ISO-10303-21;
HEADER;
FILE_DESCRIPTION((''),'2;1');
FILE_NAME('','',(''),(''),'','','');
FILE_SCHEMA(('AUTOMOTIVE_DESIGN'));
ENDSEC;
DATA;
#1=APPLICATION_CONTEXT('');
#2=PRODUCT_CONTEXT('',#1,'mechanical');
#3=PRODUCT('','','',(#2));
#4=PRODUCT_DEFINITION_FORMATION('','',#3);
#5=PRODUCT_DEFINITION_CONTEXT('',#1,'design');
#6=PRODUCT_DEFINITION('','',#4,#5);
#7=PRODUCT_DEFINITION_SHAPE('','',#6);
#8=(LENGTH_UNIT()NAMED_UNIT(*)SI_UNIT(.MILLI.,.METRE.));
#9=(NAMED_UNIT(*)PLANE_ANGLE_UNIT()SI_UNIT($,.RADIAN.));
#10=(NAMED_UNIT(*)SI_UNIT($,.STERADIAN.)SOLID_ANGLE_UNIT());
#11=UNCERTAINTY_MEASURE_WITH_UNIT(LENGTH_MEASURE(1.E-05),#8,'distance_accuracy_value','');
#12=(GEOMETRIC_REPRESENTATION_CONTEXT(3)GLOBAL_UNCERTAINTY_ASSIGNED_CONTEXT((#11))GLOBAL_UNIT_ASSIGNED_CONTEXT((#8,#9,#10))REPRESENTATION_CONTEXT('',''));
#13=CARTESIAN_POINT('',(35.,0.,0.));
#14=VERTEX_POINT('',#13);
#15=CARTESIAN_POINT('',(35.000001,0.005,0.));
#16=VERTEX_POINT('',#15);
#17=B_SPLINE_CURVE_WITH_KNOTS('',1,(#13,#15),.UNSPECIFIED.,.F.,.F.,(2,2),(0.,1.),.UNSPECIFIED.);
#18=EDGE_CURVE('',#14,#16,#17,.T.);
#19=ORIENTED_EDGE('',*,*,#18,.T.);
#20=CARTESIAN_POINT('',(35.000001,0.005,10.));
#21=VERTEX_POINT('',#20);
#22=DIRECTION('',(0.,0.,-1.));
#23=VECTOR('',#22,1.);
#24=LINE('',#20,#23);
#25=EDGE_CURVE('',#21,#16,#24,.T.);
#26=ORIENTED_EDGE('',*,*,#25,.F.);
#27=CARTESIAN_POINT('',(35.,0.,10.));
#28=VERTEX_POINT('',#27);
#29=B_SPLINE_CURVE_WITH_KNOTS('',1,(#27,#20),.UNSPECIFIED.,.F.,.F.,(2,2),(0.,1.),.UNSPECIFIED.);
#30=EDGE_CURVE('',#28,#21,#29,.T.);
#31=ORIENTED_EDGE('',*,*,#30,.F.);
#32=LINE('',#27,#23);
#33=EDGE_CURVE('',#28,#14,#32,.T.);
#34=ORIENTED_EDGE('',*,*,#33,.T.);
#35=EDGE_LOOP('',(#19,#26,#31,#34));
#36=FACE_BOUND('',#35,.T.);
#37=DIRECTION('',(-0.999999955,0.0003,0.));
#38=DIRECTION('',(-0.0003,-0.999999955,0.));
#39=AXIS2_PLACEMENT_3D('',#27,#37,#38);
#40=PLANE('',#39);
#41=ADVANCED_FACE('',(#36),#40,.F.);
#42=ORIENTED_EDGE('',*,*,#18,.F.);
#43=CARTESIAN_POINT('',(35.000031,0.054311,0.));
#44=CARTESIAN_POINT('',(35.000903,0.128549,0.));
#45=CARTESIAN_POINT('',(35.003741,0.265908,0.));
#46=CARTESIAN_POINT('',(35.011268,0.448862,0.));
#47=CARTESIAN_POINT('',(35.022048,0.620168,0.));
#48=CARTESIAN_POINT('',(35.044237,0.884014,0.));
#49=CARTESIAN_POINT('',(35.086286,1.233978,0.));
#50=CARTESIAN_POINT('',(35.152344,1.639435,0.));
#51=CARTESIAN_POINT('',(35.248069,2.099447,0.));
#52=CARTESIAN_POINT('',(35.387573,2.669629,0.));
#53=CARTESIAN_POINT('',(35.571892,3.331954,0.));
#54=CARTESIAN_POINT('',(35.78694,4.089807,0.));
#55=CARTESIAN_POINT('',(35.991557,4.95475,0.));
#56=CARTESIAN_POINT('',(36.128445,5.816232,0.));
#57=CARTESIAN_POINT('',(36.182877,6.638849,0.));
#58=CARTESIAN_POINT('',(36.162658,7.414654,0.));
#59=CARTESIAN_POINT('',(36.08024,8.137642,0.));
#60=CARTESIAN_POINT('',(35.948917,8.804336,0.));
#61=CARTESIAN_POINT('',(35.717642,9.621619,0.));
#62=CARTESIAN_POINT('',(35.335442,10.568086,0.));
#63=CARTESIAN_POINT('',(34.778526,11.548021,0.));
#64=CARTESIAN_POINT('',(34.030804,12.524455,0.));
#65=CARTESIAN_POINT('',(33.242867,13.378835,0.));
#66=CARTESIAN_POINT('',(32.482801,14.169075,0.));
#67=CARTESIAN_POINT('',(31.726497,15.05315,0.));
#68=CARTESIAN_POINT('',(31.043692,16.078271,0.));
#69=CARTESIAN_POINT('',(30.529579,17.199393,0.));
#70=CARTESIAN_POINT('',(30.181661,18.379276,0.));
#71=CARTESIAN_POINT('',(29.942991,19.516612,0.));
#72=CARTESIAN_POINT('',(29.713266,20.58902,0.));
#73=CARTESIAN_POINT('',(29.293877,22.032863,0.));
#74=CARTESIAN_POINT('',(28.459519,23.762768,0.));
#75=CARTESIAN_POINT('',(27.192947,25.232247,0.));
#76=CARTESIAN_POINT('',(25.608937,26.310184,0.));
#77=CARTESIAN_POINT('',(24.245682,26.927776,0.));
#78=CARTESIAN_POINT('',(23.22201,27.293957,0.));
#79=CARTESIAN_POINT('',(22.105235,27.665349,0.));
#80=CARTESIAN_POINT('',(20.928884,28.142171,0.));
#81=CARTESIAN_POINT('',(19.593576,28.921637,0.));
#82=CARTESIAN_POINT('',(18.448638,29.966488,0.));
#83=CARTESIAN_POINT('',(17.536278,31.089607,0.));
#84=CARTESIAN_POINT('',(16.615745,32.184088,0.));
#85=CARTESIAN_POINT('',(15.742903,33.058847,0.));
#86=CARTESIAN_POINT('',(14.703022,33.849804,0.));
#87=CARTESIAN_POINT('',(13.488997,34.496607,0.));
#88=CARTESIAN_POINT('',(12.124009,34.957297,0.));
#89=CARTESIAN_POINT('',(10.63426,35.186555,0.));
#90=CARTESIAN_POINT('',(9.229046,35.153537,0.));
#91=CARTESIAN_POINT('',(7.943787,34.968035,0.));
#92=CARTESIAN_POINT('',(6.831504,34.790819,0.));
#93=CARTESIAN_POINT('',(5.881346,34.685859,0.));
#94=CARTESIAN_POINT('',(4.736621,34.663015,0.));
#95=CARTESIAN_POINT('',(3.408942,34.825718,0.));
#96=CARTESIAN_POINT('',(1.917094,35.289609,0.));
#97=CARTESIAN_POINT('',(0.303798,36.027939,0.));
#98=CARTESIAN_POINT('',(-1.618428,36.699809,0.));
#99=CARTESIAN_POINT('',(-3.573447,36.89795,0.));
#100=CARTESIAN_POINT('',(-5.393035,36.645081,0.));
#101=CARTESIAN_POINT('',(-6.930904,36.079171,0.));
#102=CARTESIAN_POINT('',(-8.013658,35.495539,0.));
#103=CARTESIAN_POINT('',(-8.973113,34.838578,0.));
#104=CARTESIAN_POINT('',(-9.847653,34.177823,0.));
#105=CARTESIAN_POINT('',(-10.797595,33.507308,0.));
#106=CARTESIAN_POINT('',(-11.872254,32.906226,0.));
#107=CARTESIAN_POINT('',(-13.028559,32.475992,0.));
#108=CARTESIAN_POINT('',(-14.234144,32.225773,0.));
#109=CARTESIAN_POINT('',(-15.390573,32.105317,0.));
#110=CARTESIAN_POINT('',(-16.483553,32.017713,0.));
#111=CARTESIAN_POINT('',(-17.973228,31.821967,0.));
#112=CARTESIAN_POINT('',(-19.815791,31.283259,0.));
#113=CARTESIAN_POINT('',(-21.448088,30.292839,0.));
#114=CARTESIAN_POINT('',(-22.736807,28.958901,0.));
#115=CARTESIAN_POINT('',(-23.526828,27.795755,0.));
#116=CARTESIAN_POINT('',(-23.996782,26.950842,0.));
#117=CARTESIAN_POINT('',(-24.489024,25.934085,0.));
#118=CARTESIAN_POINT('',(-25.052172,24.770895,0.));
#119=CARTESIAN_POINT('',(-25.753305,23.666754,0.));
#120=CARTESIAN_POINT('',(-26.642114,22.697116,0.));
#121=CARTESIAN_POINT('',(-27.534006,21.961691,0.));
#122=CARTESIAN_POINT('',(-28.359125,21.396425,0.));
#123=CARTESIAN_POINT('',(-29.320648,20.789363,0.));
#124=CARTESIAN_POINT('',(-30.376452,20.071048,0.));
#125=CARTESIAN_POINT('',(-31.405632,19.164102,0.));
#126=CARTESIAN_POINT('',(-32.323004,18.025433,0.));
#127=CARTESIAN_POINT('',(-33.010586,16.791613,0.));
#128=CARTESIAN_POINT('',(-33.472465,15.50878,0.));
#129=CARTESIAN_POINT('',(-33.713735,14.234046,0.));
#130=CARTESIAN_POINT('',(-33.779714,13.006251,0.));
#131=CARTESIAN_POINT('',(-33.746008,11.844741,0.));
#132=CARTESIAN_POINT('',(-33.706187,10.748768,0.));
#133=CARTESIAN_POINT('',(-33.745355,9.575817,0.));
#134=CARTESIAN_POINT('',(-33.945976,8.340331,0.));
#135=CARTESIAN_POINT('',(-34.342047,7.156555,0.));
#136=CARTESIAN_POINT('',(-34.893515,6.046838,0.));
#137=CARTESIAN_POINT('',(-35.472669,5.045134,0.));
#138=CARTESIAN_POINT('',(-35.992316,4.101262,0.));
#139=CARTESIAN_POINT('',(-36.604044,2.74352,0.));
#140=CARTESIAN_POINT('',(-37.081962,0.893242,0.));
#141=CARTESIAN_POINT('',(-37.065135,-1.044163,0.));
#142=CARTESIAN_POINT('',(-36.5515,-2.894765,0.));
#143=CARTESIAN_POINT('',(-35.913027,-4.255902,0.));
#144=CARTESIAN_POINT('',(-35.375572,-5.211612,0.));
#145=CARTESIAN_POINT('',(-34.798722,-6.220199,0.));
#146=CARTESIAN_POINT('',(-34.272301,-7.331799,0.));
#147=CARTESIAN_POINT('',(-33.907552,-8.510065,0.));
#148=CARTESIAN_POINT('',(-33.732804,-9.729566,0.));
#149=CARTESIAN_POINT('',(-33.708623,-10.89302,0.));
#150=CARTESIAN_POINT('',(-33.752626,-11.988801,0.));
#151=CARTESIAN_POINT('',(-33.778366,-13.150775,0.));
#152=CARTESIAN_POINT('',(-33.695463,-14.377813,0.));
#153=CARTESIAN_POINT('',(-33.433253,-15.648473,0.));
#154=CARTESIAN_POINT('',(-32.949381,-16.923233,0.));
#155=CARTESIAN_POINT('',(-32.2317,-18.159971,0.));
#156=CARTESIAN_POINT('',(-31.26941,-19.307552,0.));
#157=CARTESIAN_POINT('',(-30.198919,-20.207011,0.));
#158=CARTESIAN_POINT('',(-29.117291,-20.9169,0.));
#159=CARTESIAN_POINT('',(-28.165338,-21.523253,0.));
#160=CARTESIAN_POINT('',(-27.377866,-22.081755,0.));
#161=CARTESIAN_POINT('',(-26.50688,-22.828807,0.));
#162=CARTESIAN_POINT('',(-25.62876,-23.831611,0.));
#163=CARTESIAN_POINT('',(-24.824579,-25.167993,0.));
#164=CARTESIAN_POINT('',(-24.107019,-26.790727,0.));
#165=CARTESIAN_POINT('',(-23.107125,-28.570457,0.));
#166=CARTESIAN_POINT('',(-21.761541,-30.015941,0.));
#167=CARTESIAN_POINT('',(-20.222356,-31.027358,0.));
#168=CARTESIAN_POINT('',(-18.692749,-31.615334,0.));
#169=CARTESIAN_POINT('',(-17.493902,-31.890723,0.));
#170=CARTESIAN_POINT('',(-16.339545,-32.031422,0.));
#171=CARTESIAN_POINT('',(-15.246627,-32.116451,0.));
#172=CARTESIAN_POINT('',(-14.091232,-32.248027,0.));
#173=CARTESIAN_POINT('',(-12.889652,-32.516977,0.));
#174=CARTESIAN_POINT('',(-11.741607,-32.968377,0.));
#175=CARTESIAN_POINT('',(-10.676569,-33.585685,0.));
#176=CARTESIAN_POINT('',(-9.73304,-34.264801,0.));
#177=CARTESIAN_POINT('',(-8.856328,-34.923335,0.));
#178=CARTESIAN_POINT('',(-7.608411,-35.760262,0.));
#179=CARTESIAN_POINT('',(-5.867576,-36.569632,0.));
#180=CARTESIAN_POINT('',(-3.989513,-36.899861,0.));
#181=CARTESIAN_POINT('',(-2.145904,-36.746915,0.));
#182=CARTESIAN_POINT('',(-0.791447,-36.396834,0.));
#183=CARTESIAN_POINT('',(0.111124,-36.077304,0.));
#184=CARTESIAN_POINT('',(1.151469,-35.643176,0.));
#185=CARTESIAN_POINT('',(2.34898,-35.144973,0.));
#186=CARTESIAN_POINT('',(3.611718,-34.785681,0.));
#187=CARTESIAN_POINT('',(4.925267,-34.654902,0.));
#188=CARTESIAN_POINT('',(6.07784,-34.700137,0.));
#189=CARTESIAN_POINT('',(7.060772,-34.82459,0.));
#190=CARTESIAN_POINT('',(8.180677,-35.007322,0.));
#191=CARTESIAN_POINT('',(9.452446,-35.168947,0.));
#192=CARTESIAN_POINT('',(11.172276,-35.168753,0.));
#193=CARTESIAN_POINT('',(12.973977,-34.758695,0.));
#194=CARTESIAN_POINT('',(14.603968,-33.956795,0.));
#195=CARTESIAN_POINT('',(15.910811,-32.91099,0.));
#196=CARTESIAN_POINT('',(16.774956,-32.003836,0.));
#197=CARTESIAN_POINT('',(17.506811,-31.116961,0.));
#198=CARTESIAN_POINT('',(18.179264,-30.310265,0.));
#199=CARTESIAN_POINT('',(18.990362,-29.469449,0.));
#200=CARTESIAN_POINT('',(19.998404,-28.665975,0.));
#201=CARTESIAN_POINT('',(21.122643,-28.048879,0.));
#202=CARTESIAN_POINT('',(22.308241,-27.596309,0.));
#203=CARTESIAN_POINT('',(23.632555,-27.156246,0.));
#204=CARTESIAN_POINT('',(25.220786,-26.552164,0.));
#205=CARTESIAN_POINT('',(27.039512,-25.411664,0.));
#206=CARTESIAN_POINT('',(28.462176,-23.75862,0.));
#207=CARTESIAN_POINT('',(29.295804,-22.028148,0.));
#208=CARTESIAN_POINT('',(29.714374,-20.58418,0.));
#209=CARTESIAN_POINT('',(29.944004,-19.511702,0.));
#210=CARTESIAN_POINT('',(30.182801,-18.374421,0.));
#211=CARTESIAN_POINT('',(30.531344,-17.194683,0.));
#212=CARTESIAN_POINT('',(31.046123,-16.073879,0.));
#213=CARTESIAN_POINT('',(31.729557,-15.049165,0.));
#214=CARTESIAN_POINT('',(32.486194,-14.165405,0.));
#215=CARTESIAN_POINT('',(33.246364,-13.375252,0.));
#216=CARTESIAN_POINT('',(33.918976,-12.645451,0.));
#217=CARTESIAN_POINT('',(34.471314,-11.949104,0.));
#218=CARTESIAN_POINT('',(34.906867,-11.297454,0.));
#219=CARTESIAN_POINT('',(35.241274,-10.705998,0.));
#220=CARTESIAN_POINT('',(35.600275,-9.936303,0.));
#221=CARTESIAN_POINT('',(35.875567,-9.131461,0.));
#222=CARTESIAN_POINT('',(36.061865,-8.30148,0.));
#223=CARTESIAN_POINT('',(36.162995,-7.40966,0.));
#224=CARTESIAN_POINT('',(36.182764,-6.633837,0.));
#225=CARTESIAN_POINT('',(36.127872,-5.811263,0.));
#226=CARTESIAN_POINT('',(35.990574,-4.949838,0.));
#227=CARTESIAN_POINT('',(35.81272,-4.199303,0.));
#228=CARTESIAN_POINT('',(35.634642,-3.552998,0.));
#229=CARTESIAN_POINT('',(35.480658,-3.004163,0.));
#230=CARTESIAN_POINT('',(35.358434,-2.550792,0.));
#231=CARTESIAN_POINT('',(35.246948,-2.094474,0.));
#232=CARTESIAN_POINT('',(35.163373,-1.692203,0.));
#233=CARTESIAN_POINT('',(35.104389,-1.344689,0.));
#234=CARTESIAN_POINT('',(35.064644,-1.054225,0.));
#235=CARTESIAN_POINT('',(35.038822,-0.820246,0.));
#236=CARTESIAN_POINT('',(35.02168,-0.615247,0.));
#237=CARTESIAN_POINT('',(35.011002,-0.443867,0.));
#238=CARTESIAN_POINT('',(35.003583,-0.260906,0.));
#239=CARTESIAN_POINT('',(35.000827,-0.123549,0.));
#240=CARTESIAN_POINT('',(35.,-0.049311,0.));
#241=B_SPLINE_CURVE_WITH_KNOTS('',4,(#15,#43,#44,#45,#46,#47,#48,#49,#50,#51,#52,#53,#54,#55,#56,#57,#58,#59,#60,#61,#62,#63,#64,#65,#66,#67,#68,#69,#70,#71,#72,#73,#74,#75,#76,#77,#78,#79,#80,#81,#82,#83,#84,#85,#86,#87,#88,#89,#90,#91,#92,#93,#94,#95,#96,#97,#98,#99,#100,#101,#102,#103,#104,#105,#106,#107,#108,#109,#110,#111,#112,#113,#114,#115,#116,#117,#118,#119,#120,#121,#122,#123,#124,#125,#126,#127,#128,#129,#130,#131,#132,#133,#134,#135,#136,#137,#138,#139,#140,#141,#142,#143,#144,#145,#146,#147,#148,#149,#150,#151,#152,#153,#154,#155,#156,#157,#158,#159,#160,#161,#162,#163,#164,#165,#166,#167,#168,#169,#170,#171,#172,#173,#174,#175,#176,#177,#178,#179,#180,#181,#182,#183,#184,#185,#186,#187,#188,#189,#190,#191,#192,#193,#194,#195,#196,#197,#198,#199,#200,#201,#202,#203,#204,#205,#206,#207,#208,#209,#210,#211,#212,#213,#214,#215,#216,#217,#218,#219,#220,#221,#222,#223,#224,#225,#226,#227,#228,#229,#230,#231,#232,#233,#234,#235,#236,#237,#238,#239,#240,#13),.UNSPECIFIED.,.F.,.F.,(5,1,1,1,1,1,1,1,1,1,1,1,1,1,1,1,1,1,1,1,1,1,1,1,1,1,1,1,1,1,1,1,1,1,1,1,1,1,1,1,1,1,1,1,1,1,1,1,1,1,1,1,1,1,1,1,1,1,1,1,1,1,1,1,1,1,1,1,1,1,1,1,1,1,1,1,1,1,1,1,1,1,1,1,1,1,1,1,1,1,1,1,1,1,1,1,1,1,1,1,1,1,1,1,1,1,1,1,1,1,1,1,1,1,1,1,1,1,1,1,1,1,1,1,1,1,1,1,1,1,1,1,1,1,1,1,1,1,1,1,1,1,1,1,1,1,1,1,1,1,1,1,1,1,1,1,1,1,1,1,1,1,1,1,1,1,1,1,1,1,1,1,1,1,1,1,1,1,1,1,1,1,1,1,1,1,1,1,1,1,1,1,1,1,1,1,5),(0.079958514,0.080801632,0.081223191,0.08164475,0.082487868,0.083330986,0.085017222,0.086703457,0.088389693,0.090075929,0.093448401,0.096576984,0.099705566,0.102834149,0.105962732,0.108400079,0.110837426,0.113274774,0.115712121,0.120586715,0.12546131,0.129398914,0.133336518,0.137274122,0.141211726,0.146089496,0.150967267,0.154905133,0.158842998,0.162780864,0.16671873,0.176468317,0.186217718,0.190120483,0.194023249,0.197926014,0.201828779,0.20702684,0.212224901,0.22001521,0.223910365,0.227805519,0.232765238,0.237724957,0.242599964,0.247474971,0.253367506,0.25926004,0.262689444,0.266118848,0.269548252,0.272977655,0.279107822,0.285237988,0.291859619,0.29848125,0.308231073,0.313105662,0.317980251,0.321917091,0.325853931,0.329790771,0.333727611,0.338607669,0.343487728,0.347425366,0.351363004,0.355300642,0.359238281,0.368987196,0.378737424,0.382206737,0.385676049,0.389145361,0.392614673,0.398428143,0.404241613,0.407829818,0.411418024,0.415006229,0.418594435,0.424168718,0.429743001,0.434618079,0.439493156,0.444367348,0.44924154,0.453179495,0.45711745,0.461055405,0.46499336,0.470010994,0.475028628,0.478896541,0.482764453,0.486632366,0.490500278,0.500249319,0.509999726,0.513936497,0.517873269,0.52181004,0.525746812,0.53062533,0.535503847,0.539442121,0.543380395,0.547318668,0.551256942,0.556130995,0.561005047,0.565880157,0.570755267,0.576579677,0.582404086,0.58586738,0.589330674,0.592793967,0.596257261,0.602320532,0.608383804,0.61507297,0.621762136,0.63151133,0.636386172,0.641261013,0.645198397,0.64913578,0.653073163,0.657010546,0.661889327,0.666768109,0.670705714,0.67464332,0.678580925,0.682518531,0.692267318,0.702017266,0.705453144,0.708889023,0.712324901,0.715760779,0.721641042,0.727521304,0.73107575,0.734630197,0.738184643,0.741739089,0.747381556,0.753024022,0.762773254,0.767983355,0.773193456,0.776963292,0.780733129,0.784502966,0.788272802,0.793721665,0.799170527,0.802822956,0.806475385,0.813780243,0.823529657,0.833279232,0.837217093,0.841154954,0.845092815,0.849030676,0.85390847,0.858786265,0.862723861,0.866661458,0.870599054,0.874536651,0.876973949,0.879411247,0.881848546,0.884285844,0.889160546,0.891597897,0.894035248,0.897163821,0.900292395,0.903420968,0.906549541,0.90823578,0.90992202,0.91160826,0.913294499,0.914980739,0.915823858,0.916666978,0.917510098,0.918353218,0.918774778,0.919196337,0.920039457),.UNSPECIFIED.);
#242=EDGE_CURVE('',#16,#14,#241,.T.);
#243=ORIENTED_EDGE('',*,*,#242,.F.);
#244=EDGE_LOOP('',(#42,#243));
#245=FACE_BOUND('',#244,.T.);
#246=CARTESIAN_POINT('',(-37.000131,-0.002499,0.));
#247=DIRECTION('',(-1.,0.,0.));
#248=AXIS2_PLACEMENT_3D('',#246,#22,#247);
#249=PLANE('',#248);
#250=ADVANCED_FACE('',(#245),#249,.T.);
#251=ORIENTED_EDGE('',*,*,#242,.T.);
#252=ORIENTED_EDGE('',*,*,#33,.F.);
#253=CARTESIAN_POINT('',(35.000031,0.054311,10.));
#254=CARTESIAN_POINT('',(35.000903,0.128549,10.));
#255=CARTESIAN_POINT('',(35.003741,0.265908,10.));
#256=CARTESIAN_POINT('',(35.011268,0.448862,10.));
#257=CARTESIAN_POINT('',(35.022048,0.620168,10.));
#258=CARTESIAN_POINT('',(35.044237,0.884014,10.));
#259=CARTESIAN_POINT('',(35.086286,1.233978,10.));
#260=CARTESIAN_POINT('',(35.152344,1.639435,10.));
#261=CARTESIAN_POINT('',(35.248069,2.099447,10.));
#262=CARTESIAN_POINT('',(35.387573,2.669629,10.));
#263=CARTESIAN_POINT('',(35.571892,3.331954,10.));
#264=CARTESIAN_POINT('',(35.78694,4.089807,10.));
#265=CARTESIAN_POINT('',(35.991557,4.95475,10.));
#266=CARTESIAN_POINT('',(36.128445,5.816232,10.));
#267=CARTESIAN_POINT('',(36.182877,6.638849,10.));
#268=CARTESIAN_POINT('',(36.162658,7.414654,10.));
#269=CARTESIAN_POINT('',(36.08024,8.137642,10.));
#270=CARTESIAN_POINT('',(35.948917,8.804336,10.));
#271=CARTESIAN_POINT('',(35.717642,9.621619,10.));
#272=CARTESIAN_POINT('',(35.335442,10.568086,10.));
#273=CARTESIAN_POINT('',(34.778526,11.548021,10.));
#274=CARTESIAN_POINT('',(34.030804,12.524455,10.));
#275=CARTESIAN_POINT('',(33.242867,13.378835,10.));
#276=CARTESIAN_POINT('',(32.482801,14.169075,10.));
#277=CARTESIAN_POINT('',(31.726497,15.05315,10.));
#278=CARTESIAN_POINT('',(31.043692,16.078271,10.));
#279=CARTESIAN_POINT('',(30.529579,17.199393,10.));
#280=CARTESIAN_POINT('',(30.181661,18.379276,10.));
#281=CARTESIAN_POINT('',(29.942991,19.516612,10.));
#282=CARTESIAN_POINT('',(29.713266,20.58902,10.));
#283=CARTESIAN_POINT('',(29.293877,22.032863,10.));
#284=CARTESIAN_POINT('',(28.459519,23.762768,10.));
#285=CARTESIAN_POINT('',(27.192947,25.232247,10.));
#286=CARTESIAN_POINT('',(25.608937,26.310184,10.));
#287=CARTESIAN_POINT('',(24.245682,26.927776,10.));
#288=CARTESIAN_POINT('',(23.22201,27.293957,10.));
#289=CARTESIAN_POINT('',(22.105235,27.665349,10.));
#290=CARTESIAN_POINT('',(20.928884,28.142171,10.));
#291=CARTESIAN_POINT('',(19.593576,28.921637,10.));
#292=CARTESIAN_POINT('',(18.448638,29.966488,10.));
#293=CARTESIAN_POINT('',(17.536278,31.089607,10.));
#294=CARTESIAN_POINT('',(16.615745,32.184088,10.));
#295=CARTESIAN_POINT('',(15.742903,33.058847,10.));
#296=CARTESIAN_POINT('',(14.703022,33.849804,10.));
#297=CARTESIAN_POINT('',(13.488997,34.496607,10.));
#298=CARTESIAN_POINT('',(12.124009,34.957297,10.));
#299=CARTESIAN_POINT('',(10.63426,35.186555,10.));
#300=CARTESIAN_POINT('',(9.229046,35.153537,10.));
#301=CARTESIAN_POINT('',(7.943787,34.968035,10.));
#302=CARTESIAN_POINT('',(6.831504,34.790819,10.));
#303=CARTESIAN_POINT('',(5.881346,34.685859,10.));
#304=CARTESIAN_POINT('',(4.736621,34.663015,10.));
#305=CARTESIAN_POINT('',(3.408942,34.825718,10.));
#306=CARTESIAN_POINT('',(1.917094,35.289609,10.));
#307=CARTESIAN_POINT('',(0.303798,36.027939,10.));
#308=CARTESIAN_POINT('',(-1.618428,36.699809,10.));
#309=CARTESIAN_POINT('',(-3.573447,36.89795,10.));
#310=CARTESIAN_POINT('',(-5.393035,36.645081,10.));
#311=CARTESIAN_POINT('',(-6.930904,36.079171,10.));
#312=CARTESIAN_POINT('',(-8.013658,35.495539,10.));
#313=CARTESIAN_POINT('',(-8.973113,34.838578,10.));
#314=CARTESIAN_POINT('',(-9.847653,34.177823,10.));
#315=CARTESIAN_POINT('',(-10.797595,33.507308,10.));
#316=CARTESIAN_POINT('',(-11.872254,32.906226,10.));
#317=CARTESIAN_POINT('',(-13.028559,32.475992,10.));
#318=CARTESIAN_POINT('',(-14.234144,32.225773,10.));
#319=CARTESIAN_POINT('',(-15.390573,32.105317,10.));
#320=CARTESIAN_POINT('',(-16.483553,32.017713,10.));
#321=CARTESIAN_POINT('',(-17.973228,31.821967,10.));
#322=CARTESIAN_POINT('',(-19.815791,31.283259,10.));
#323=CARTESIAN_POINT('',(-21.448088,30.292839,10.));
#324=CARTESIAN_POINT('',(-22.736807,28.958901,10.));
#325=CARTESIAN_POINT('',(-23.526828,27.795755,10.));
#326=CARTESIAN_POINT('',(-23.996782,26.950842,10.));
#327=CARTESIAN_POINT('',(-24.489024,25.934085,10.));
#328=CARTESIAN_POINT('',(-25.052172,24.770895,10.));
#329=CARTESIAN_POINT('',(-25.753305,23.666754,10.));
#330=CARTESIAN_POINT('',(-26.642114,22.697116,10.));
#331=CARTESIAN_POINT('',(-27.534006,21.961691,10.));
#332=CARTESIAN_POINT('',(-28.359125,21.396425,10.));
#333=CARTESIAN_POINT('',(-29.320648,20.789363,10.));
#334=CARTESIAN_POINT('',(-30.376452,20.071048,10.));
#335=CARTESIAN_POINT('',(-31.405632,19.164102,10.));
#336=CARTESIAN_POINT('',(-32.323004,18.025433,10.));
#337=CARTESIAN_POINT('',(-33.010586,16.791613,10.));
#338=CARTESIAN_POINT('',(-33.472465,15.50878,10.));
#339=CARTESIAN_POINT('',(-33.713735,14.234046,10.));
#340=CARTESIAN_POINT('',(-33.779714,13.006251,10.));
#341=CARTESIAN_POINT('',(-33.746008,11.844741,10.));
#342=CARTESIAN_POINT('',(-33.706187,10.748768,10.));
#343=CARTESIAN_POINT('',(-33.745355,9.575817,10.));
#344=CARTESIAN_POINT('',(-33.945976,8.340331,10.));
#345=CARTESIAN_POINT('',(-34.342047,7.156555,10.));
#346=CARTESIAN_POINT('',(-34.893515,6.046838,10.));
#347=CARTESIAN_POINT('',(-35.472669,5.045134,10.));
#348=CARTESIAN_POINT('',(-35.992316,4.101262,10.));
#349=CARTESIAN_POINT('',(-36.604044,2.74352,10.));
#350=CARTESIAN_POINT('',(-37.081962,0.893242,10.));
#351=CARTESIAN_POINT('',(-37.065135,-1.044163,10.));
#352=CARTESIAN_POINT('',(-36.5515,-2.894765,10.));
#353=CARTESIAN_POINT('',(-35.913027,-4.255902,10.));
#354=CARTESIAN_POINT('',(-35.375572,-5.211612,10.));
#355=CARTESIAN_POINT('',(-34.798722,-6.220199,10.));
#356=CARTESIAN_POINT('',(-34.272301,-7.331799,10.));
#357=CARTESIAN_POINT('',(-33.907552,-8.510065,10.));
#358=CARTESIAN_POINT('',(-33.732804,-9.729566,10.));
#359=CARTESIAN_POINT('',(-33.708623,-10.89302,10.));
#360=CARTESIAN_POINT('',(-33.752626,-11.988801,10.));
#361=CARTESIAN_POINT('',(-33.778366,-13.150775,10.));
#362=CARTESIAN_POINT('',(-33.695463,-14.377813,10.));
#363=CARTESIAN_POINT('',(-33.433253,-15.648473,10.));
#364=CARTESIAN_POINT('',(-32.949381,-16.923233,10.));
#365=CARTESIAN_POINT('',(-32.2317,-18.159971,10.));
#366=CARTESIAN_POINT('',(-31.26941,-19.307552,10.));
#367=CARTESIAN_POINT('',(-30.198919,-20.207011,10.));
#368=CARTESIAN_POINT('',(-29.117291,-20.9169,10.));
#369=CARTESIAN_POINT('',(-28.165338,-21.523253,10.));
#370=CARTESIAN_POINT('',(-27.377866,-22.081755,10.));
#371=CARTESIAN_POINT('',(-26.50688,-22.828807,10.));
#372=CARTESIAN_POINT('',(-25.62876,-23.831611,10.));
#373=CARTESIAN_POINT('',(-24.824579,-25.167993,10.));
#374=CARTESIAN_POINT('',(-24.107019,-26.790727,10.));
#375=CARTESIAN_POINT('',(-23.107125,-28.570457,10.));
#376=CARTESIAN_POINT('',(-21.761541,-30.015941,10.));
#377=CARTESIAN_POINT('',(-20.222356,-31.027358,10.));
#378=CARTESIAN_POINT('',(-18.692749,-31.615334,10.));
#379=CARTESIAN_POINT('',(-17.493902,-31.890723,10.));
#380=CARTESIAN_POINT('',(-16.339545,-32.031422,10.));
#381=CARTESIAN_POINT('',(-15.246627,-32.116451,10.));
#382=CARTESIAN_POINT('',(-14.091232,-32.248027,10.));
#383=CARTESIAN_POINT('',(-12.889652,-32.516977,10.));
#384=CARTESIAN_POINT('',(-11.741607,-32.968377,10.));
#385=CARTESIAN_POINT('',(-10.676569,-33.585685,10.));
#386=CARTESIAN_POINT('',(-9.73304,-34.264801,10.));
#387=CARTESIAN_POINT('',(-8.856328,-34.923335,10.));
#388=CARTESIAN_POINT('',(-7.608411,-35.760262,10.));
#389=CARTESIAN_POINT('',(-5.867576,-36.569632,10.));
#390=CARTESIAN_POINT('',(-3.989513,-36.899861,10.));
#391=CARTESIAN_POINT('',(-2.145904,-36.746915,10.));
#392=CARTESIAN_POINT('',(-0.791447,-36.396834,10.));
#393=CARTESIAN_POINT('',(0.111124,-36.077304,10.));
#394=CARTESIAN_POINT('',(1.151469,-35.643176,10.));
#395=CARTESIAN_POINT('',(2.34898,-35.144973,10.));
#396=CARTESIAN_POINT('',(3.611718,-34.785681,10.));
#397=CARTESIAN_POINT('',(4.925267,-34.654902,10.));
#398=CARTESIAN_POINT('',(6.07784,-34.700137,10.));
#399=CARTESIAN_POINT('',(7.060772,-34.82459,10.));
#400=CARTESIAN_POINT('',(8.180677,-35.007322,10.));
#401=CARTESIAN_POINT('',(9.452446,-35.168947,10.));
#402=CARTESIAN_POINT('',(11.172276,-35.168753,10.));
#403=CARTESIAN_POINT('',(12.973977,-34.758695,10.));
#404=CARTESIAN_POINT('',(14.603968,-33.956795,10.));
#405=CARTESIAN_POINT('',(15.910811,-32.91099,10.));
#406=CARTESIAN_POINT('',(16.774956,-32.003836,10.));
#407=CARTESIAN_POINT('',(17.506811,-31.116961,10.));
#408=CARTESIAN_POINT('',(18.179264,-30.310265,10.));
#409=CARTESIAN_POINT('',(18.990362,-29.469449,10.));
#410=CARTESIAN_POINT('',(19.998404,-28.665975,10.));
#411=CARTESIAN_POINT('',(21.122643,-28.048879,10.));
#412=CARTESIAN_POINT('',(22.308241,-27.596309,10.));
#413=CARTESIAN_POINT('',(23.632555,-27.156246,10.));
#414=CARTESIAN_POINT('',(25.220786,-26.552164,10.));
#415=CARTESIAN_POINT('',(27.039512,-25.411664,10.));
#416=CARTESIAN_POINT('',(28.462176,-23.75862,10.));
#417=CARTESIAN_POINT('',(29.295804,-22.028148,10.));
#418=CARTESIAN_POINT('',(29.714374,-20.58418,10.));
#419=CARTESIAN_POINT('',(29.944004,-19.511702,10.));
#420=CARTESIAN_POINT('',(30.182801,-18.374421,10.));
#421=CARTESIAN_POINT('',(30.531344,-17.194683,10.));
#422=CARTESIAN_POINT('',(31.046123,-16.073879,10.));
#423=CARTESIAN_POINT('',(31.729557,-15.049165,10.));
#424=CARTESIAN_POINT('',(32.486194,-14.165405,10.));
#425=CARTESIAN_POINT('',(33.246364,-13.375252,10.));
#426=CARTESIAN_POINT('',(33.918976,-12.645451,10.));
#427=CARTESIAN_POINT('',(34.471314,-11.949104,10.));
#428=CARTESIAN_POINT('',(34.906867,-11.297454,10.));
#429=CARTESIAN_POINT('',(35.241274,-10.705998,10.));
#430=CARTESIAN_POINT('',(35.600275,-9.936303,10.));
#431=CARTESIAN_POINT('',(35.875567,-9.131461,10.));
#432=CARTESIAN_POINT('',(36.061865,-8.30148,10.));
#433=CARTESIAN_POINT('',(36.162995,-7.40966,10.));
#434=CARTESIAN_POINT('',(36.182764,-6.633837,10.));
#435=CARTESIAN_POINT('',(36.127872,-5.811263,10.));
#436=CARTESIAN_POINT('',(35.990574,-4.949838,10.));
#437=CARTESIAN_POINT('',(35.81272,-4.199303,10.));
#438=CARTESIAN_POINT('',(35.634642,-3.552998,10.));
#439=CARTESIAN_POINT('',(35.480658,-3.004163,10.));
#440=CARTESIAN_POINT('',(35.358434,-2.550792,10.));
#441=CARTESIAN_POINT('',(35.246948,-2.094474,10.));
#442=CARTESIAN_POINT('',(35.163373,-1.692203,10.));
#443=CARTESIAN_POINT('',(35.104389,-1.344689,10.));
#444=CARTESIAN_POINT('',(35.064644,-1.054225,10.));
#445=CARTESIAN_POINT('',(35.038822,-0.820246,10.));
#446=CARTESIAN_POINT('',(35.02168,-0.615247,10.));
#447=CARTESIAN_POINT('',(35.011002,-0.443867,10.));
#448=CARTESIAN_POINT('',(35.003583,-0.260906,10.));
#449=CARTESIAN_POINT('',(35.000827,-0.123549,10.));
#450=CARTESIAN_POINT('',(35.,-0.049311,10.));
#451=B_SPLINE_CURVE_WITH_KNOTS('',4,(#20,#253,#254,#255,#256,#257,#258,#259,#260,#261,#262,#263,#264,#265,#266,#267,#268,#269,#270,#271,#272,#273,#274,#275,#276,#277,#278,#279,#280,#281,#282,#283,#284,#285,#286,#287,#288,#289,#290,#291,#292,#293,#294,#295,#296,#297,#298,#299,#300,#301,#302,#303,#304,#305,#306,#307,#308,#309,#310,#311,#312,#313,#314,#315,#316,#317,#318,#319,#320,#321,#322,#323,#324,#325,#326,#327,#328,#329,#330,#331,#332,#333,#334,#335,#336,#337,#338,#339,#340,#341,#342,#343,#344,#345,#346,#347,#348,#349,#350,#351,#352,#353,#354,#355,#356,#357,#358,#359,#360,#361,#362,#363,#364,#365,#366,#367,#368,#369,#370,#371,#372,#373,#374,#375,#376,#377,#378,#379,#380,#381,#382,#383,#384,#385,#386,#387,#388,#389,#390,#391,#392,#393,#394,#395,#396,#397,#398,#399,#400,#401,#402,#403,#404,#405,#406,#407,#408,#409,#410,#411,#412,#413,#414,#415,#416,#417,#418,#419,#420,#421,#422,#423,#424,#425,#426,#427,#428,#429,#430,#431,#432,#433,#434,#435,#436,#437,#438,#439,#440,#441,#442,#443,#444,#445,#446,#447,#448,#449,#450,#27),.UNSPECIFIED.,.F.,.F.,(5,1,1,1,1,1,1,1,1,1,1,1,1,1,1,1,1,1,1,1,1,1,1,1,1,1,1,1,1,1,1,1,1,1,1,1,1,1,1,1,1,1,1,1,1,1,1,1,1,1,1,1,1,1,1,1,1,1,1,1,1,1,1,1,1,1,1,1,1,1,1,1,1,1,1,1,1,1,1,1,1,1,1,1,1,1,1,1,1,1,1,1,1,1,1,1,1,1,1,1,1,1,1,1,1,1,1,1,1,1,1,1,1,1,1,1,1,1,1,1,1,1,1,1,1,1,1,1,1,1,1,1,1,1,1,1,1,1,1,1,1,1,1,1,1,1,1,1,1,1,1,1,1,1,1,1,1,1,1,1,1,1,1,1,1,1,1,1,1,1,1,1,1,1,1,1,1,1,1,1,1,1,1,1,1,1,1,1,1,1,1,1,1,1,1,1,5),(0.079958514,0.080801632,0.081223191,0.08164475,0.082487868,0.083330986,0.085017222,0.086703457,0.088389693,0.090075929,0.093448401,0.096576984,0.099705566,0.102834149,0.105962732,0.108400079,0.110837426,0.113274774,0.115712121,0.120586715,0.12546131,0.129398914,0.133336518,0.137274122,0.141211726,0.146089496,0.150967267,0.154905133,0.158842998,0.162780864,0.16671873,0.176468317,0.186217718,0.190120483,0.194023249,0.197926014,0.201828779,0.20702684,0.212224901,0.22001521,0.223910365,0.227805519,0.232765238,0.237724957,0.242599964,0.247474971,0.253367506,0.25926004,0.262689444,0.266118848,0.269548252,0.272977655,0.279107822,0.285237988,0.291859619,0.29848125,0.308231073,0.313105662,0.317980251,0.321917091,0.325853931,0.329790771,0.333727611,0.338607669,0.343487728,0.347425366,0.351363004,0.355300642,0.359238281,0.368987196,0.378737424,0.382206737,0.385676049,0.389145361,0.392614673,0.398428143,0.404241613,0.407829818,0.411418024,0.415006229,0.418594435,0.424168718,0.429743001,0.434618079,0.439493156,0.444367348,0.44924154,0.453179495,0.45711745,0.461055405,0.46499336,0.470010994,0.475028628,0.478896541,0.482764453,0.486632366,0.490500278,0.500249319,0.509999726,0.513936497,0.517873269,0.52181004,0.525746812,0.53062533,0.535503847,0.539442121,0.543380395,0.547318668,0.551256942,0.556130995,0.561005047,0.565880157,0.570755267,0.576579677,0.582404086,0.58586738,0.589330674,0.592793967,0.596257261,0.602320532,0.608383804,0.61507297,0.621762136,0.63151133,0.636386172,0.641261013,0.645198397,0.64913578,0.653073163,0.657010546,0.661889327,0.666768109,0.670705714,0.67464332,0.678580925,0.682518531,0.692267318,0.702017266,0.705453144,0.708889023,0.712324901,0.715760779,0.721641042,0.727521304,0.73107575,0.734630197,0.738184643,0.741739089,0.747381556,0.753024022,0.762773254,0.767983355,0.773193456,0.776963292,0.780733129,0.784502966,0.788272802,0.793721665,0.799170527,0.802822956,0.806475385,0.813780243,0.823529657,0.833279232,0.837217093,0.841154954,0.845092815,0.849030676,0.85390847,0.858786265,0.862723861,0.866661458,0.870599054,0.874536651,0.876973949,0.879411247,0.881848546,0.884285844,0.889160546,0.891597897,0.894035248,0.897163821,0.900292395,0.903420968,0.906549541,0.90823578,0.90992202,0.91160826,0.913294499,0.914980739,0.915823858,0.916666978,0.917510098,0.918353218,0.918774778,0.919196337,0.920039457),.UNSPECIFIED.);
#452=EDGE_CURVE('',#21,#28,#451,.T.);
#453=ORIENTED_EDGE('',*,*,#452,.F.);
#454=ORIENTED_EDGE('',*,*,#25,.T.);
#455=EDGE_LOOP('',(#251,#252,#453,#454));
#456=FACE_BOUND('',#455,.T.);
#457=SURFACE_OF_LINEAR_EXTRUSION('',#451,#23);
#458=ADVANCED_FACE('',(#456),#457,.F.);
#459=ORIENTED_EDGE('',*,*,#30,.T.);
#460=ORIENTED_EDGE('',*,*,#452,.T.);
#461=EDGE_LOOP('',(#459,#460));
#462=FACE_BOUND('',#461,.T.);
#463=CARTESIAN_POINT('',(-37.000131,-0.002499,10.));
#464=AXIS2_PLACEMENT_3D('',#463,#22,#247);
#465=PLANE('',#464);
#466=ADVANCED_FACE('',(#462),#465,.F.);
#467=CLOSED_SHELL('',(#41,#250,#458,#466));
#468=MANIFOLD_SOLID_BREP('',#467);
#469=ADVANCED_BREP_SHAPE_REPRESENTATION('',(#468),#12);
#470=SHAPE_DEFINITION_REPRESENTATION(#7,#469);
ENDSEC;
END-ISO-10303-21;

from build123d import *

# Parameters (mm, degrees)
BOSS_EXTRUDE1_DEPTH = 10


with BuildPart() as part:
    # Sketch1 → Boss-Extrude1 (new body)
    with BuildSketch(Plane.XY):
        with BuildLine():
            add(Edge.make_bspline(
                [(35, 0), (35, -0.049310934), (35.000826925, -0.123549041), (35.00358334, -0.260905708), (35.011001765, -0.443866873), (35.02168003, -0.615246909), (35.038822352, -0.820246291), (35.064644021, -1.054225265), (35.104389094, -1.344688824), (35.163372924, -1.692203356), (35.246948475, -2.094474225), (35.358433569, -2.55079151), (35.480657747, -3.004163087), (35.634642353, -3.552998444), (35.812720375, -4.19930319), (35.990573811, -4.949837651), (36.127871975, -5.811262759), (36.182763873, -6.633837248), (36.162995201, -7.409659641), (36.061865068, -8.301480074), (35.875566573, -9.131461485), (35.600274681, -9.936302866), (35.241274265, -10.705998089), (34.906867041, -11.297453714), (34.471313565, -11.949104091), (33.918976342, -12.645450647), (33.24636376, -13.375251593), (32.486194193, -14.16540454), (31.729556574, -15.049165196), (31.046122514, -16.073879372), (30.531343894, -17.194682801), (30.182801414, -18.374420877), (29.944004061, -19.511701744), (29.714374148, -20.584179661), (29.295803858, -22.028148088), (28.462175689, -23.758619693), (27.039511715, -25.411663684), (25.220785614, -26.552164252), (23.632554765, -27.156246313), (22.308241317, -27.596309207), (21.122642737, -28.048878518), (19.998404102, -28.665974936), (18.990362365, -29.469448636), (18.17926367, -30.310264933), (17.506810894, -31.116961152), (16.774956468, -32.003835501), (15.910810759, -32.910989873), (14.603968244, -33.956795362), (12.973977424, -34.758694982), (11.172275828, -35.168753031), (9.452445917, -35.168946806), (8.180676827, -35.007322448), (7.060772067, -34.824590111), (6.077839965, -34.700136729), (4.92526664, -34.654901605), (3.611717568, -34.785681451), (2.34898034, -35.144972521), (1.151468871, -35.643176313), (0.11112449, -36.077304048), (-0.791447095, -36.396834046), (-2.145904167, -36.746914748), (-3.98951328, -36.899860547), (-5.867576144, -36.569631631), (-7.608410698, -35.760261886), (-8.856327652, -34.923335177), (-9.733039987, -34.264800627), (-10.676569221, -33.585684911), (-11.741606641, -32.968376824), (-12.889652144, -32.516976577), (-14.091231923, -32.248027474), (-15.246626723, -32.116451018), (-16.339545407, -32.031422114), (-17.493902089, -31.890723419), (-18.692749484, -31.615334014), (-20.222356026, -31.027358158), (-21.761540735, -30.015940811), (-23.10712517, -28.570457222), (-24.107018635, -26.790727225), (-24.824578895, -25.167993152), (-25.628759836, -23.831611442), (-26.506880009, -22.828807468), (-27.377866045, -22.081755442), (-28.165338381, -21.523253444), (-29.117291307, -20.916900261), (-30.198918832, -20.207011214), (-31.269409842, -19.307551755), (-32.23169961, -18.159970842), (-32.949381231, -16.923233216), (-33.433253432, -15.648473233), (-33.695462895, -14.377812661), (-33.778365664, -13.150774619), (-33.752626295, -11.988801454), (-33.708623439, -10.893020119), (-33.732804458, -9.72956587), (-33.907551836, -8.510065169), (-34.272300595, -7.331799195), (-34.798722456, -6.220199301), (-35.375571547, -5.211611527), (-35.913027045, -4.255901727), (-36.551500379, -2.894765108), (-37.065135004, -1.044163044), (-37.081961548, 0.89324181), (-36.604044439, 2.743519909), (-35.992316197, 4.101262096), (-35.472668892, 5.045134004), (-34.893514715, 6.046838416), (-34.342047055, 7.156554542), (-33.945975846, 8.340330549), (-33.745354875, 9.575816636), (-33.706186832, 10.748767553), (-33.746008177, 11.844740972), (-33.779713502, 13.006251445), (-33.713735097, 14.234046359), (-33.472465306, 15.508780329), (-33.010585942, 16.791612729), (-32.323003578, 18.025433099), (-31.405631869, 19.164101965), (-30.376452217, 20.071047646), (-29.320648284, 20.789362643), (-28.359125221, 21.396424669), (-27.534006018, 21.961691411), (-26.64211418, 22.697115867), (-25.75330467, 23.666754111), (-25.052171961, 24.77089469), (-24.489024343, 25.934085453), (-23.99678217, 26.950841824), (-23.526827657, 27.795754618), (-22.736807023, 28.958901492), (-21.44808756, 30.292839058), (-19.815791171, 31.283258637), (-17.97322752, 31.821967087), (-16.483552658, 32.017713065), (-15.390573104, 32.105317493), (-14.234143791, 32.225772563), (-13.028559404, 32.475991946), (-11.872253588, 32.906226317), (-10.797594574, 33.507307672), (-9.847652658, 34.177822986), (-8.973112624, 34.838578492), (-8.013657651, 35.495538515), (-6.930904053, 36.079170913), (-5.393035326, 36.64508146), (-3.573447131, 36.897950298), (-1.618428071, 36.699809445), (0.303798345, 36.027939455), (1.91709374, 35.289608927), (3.408941719, 34.82571844), (4.736620881, 34.663014931), (5.881346244, 34.685859063), (6.831503524, 34.790818648), (7.94378724, 34.968034923), (9.22904619, 35.153537412), (10.634259731, 35.186555058), (12.124008649, 34.957296868), (13.488997174, 34.496606604), (14.703022495, 33.849803521), (15.74290263, 33.058847151), (16.615744669, 32.18408774), (17.536277891, 31.089607246), (18.448638028, 29.966488187), (19.593575718, 28.921637285), (20.928884162, 28.142170687), (22.10523455, 27.665349127), (23.222010494, 27.293956867), (24.245682165, 26.927775953), (25.608937462, 26.310183857), (27.19294663, 25.232247275), (28.459519151, 23.762767717), (29.293876673, 22.032863207), (29.713266114, 20.589019944), (29.94299122, 19.516612358), (30.181661325, 18.37927563), (30.529578603, 17.199393376), (31.043691667, 16.078271444), (31.726496935, 15.053149854), (32.482801355, 14.169074794), (33.242866577, 13.378834546), (34.030803992, 12.524455234), (34.778526462, 11.54802149), (35.33544245, 10.568085559), (35.717641828, 9.621618689), (35.948917034, 8.804336006), (36.080240473, 8.137642452), (36.162658402, 7.414653672), (36.182876804, 6.638849406), (36.12844469, 5.816231898), (35.99155664, 4.954749604), (35.786940236, 4.089807461), (35.571892127, 3.331954244), (35.387572999, 2.669628976), (35.248069215, 2.099447036), (35.152344118, 1.639434685), (35.086285678, 1.233977549), (35.044236756, 0.884014258), (35.022048081, 0.620168406), (35.011268303, 0.448861583), (35.003741135, 0.265908238), (35.000902541, 0.128549061), (35.000031086, 0.054310816), (35.0000015, 0.004999998)],
                knots=[0.079958514, 0.079958514, 0.079958514, 0.079958514, 0.079958514, 0.080801634, 0.081223194, 0.081644754, 0.082487873, 0.083330993, 0.084174113, 0.085017233, 0.086703472, 0.088389712, 0.090075951, 0.091762191, 0.09344843, 0.096577003, 0.099705577, 0.10283415, 0.105962723, 0.108400074, 0.110837425, 0.115712127, 0.118149426, 0.120586724, 0.123024022, 0.125461321, 0.129398917, 0.133336513, 0.13727411, 0.141211706, 0.146089501, 0.150967295, 0.154905156, 0.158843017, 0.162780878, 0.166718739, 0.176468314, 0.186217728, 0.193522586, 0.197175015, 0.200827444, 0.206276306, 0.211725169, 0.215495006, 0.219264842, 0.223034679, 0.226804515, 0.232014616, 0.237224717, 0.246973949, 0.252616416, 0.258258882, 0.261813328, 0.265367774, 0.268922221, 0.272476667, 0.27835693, 0.284237192, 0.28767307, 0.291108949, 0.294544827, 0.297980705, 0.307730653, 0.31747944, 0.321417046, 0.325354651, 0.329292257, 0.333229863, 0.338108644, 0.342987425, 0.346924808, 0.350862191, 0.354799575, 0.358736958, 0.363611799, 0.368486641, 0.378235835, 0.384925001, 0.391614167, 0.397677439, 0.40374071, 0.407204004, 0.410667298, 0.414130591, 0.417593885, 0.423418295, 0.429242704, 0.434117814, 0.438992924, 0.443866976, 0.448741029, 0.452679303, 0.456617576, 0.46055585, 0.464494124, 0.469372642, 0.474251159, 0.478187931, 0.482124702, 0.486061474, 0.489998246, 0.499748652, 0.509497693, 0.513365606, 0.517233518, 0.521101431, 0.524969343, 0.529986977, 0.535004611, 0.538942566, 0.542880521, 0.546818476, 0.550756431, 0.555630623, 0.560504815, 0.565379892, 0.57025497, 0.575829253, 0.581403536, 0.584991742, 0.588579947, 0.592168153, 0.595756358, 0.601569828, 0.607383298, 0.61085261, 0.614321922, 0.617791235, 0.621260547, 0.631010775, 0.64075969, 0.644697329, 0.648634967, 0.652572605, 0.656510243, 0.661390302, 0.66627036, 0.6702072, 0.67414404, 0.67808088, 0.68201772, 0.686892309, 0.691766898, 0.701516721, 0.708138352, 0.714759983, 0.720890149, 0.727020316, 0.73044972, 0.733879123, 0.737308527, 0.740737931, 0.746630466, 0.752523, 0.757398007, 0.762273014, 0.767232733, 0.772192452, 0.776087607, 0.779982761, 0.78777307, 0.792971131, 0.798169192, 0.802071957, 0.805974723, 0.809877488, 0.813780253, 0.823529654, 0.833279241, 0.837217107, 0.841154973, 0.845092838, 0.849030704, 0.853908475, 0.858786245, 0.862723849, 0.866661453, 0.870599057, 0.874536661, 0.879411256, 0.88428585, 0.886723197, 0.889160545, 0.891597892, 0.894035239, 0.897163822, 0.900292405, 0.903420987, 0.90654957, 0.909922042, 0.911608278, 0.913294514, 0.91498075, 0.916666985, 0.917510103, 0.918353221, 0.91877478, 0.919196339, 0.920039457, 0.920039457, 0.920039457, 0.920039457, 0.920039457], degree=4))
            Line((35.0000015, 0.004999998), (35, 0))
        make_face()
    extrude(amount=BOSS_EXTRUDE1_DEPTH)


solid = part.part
